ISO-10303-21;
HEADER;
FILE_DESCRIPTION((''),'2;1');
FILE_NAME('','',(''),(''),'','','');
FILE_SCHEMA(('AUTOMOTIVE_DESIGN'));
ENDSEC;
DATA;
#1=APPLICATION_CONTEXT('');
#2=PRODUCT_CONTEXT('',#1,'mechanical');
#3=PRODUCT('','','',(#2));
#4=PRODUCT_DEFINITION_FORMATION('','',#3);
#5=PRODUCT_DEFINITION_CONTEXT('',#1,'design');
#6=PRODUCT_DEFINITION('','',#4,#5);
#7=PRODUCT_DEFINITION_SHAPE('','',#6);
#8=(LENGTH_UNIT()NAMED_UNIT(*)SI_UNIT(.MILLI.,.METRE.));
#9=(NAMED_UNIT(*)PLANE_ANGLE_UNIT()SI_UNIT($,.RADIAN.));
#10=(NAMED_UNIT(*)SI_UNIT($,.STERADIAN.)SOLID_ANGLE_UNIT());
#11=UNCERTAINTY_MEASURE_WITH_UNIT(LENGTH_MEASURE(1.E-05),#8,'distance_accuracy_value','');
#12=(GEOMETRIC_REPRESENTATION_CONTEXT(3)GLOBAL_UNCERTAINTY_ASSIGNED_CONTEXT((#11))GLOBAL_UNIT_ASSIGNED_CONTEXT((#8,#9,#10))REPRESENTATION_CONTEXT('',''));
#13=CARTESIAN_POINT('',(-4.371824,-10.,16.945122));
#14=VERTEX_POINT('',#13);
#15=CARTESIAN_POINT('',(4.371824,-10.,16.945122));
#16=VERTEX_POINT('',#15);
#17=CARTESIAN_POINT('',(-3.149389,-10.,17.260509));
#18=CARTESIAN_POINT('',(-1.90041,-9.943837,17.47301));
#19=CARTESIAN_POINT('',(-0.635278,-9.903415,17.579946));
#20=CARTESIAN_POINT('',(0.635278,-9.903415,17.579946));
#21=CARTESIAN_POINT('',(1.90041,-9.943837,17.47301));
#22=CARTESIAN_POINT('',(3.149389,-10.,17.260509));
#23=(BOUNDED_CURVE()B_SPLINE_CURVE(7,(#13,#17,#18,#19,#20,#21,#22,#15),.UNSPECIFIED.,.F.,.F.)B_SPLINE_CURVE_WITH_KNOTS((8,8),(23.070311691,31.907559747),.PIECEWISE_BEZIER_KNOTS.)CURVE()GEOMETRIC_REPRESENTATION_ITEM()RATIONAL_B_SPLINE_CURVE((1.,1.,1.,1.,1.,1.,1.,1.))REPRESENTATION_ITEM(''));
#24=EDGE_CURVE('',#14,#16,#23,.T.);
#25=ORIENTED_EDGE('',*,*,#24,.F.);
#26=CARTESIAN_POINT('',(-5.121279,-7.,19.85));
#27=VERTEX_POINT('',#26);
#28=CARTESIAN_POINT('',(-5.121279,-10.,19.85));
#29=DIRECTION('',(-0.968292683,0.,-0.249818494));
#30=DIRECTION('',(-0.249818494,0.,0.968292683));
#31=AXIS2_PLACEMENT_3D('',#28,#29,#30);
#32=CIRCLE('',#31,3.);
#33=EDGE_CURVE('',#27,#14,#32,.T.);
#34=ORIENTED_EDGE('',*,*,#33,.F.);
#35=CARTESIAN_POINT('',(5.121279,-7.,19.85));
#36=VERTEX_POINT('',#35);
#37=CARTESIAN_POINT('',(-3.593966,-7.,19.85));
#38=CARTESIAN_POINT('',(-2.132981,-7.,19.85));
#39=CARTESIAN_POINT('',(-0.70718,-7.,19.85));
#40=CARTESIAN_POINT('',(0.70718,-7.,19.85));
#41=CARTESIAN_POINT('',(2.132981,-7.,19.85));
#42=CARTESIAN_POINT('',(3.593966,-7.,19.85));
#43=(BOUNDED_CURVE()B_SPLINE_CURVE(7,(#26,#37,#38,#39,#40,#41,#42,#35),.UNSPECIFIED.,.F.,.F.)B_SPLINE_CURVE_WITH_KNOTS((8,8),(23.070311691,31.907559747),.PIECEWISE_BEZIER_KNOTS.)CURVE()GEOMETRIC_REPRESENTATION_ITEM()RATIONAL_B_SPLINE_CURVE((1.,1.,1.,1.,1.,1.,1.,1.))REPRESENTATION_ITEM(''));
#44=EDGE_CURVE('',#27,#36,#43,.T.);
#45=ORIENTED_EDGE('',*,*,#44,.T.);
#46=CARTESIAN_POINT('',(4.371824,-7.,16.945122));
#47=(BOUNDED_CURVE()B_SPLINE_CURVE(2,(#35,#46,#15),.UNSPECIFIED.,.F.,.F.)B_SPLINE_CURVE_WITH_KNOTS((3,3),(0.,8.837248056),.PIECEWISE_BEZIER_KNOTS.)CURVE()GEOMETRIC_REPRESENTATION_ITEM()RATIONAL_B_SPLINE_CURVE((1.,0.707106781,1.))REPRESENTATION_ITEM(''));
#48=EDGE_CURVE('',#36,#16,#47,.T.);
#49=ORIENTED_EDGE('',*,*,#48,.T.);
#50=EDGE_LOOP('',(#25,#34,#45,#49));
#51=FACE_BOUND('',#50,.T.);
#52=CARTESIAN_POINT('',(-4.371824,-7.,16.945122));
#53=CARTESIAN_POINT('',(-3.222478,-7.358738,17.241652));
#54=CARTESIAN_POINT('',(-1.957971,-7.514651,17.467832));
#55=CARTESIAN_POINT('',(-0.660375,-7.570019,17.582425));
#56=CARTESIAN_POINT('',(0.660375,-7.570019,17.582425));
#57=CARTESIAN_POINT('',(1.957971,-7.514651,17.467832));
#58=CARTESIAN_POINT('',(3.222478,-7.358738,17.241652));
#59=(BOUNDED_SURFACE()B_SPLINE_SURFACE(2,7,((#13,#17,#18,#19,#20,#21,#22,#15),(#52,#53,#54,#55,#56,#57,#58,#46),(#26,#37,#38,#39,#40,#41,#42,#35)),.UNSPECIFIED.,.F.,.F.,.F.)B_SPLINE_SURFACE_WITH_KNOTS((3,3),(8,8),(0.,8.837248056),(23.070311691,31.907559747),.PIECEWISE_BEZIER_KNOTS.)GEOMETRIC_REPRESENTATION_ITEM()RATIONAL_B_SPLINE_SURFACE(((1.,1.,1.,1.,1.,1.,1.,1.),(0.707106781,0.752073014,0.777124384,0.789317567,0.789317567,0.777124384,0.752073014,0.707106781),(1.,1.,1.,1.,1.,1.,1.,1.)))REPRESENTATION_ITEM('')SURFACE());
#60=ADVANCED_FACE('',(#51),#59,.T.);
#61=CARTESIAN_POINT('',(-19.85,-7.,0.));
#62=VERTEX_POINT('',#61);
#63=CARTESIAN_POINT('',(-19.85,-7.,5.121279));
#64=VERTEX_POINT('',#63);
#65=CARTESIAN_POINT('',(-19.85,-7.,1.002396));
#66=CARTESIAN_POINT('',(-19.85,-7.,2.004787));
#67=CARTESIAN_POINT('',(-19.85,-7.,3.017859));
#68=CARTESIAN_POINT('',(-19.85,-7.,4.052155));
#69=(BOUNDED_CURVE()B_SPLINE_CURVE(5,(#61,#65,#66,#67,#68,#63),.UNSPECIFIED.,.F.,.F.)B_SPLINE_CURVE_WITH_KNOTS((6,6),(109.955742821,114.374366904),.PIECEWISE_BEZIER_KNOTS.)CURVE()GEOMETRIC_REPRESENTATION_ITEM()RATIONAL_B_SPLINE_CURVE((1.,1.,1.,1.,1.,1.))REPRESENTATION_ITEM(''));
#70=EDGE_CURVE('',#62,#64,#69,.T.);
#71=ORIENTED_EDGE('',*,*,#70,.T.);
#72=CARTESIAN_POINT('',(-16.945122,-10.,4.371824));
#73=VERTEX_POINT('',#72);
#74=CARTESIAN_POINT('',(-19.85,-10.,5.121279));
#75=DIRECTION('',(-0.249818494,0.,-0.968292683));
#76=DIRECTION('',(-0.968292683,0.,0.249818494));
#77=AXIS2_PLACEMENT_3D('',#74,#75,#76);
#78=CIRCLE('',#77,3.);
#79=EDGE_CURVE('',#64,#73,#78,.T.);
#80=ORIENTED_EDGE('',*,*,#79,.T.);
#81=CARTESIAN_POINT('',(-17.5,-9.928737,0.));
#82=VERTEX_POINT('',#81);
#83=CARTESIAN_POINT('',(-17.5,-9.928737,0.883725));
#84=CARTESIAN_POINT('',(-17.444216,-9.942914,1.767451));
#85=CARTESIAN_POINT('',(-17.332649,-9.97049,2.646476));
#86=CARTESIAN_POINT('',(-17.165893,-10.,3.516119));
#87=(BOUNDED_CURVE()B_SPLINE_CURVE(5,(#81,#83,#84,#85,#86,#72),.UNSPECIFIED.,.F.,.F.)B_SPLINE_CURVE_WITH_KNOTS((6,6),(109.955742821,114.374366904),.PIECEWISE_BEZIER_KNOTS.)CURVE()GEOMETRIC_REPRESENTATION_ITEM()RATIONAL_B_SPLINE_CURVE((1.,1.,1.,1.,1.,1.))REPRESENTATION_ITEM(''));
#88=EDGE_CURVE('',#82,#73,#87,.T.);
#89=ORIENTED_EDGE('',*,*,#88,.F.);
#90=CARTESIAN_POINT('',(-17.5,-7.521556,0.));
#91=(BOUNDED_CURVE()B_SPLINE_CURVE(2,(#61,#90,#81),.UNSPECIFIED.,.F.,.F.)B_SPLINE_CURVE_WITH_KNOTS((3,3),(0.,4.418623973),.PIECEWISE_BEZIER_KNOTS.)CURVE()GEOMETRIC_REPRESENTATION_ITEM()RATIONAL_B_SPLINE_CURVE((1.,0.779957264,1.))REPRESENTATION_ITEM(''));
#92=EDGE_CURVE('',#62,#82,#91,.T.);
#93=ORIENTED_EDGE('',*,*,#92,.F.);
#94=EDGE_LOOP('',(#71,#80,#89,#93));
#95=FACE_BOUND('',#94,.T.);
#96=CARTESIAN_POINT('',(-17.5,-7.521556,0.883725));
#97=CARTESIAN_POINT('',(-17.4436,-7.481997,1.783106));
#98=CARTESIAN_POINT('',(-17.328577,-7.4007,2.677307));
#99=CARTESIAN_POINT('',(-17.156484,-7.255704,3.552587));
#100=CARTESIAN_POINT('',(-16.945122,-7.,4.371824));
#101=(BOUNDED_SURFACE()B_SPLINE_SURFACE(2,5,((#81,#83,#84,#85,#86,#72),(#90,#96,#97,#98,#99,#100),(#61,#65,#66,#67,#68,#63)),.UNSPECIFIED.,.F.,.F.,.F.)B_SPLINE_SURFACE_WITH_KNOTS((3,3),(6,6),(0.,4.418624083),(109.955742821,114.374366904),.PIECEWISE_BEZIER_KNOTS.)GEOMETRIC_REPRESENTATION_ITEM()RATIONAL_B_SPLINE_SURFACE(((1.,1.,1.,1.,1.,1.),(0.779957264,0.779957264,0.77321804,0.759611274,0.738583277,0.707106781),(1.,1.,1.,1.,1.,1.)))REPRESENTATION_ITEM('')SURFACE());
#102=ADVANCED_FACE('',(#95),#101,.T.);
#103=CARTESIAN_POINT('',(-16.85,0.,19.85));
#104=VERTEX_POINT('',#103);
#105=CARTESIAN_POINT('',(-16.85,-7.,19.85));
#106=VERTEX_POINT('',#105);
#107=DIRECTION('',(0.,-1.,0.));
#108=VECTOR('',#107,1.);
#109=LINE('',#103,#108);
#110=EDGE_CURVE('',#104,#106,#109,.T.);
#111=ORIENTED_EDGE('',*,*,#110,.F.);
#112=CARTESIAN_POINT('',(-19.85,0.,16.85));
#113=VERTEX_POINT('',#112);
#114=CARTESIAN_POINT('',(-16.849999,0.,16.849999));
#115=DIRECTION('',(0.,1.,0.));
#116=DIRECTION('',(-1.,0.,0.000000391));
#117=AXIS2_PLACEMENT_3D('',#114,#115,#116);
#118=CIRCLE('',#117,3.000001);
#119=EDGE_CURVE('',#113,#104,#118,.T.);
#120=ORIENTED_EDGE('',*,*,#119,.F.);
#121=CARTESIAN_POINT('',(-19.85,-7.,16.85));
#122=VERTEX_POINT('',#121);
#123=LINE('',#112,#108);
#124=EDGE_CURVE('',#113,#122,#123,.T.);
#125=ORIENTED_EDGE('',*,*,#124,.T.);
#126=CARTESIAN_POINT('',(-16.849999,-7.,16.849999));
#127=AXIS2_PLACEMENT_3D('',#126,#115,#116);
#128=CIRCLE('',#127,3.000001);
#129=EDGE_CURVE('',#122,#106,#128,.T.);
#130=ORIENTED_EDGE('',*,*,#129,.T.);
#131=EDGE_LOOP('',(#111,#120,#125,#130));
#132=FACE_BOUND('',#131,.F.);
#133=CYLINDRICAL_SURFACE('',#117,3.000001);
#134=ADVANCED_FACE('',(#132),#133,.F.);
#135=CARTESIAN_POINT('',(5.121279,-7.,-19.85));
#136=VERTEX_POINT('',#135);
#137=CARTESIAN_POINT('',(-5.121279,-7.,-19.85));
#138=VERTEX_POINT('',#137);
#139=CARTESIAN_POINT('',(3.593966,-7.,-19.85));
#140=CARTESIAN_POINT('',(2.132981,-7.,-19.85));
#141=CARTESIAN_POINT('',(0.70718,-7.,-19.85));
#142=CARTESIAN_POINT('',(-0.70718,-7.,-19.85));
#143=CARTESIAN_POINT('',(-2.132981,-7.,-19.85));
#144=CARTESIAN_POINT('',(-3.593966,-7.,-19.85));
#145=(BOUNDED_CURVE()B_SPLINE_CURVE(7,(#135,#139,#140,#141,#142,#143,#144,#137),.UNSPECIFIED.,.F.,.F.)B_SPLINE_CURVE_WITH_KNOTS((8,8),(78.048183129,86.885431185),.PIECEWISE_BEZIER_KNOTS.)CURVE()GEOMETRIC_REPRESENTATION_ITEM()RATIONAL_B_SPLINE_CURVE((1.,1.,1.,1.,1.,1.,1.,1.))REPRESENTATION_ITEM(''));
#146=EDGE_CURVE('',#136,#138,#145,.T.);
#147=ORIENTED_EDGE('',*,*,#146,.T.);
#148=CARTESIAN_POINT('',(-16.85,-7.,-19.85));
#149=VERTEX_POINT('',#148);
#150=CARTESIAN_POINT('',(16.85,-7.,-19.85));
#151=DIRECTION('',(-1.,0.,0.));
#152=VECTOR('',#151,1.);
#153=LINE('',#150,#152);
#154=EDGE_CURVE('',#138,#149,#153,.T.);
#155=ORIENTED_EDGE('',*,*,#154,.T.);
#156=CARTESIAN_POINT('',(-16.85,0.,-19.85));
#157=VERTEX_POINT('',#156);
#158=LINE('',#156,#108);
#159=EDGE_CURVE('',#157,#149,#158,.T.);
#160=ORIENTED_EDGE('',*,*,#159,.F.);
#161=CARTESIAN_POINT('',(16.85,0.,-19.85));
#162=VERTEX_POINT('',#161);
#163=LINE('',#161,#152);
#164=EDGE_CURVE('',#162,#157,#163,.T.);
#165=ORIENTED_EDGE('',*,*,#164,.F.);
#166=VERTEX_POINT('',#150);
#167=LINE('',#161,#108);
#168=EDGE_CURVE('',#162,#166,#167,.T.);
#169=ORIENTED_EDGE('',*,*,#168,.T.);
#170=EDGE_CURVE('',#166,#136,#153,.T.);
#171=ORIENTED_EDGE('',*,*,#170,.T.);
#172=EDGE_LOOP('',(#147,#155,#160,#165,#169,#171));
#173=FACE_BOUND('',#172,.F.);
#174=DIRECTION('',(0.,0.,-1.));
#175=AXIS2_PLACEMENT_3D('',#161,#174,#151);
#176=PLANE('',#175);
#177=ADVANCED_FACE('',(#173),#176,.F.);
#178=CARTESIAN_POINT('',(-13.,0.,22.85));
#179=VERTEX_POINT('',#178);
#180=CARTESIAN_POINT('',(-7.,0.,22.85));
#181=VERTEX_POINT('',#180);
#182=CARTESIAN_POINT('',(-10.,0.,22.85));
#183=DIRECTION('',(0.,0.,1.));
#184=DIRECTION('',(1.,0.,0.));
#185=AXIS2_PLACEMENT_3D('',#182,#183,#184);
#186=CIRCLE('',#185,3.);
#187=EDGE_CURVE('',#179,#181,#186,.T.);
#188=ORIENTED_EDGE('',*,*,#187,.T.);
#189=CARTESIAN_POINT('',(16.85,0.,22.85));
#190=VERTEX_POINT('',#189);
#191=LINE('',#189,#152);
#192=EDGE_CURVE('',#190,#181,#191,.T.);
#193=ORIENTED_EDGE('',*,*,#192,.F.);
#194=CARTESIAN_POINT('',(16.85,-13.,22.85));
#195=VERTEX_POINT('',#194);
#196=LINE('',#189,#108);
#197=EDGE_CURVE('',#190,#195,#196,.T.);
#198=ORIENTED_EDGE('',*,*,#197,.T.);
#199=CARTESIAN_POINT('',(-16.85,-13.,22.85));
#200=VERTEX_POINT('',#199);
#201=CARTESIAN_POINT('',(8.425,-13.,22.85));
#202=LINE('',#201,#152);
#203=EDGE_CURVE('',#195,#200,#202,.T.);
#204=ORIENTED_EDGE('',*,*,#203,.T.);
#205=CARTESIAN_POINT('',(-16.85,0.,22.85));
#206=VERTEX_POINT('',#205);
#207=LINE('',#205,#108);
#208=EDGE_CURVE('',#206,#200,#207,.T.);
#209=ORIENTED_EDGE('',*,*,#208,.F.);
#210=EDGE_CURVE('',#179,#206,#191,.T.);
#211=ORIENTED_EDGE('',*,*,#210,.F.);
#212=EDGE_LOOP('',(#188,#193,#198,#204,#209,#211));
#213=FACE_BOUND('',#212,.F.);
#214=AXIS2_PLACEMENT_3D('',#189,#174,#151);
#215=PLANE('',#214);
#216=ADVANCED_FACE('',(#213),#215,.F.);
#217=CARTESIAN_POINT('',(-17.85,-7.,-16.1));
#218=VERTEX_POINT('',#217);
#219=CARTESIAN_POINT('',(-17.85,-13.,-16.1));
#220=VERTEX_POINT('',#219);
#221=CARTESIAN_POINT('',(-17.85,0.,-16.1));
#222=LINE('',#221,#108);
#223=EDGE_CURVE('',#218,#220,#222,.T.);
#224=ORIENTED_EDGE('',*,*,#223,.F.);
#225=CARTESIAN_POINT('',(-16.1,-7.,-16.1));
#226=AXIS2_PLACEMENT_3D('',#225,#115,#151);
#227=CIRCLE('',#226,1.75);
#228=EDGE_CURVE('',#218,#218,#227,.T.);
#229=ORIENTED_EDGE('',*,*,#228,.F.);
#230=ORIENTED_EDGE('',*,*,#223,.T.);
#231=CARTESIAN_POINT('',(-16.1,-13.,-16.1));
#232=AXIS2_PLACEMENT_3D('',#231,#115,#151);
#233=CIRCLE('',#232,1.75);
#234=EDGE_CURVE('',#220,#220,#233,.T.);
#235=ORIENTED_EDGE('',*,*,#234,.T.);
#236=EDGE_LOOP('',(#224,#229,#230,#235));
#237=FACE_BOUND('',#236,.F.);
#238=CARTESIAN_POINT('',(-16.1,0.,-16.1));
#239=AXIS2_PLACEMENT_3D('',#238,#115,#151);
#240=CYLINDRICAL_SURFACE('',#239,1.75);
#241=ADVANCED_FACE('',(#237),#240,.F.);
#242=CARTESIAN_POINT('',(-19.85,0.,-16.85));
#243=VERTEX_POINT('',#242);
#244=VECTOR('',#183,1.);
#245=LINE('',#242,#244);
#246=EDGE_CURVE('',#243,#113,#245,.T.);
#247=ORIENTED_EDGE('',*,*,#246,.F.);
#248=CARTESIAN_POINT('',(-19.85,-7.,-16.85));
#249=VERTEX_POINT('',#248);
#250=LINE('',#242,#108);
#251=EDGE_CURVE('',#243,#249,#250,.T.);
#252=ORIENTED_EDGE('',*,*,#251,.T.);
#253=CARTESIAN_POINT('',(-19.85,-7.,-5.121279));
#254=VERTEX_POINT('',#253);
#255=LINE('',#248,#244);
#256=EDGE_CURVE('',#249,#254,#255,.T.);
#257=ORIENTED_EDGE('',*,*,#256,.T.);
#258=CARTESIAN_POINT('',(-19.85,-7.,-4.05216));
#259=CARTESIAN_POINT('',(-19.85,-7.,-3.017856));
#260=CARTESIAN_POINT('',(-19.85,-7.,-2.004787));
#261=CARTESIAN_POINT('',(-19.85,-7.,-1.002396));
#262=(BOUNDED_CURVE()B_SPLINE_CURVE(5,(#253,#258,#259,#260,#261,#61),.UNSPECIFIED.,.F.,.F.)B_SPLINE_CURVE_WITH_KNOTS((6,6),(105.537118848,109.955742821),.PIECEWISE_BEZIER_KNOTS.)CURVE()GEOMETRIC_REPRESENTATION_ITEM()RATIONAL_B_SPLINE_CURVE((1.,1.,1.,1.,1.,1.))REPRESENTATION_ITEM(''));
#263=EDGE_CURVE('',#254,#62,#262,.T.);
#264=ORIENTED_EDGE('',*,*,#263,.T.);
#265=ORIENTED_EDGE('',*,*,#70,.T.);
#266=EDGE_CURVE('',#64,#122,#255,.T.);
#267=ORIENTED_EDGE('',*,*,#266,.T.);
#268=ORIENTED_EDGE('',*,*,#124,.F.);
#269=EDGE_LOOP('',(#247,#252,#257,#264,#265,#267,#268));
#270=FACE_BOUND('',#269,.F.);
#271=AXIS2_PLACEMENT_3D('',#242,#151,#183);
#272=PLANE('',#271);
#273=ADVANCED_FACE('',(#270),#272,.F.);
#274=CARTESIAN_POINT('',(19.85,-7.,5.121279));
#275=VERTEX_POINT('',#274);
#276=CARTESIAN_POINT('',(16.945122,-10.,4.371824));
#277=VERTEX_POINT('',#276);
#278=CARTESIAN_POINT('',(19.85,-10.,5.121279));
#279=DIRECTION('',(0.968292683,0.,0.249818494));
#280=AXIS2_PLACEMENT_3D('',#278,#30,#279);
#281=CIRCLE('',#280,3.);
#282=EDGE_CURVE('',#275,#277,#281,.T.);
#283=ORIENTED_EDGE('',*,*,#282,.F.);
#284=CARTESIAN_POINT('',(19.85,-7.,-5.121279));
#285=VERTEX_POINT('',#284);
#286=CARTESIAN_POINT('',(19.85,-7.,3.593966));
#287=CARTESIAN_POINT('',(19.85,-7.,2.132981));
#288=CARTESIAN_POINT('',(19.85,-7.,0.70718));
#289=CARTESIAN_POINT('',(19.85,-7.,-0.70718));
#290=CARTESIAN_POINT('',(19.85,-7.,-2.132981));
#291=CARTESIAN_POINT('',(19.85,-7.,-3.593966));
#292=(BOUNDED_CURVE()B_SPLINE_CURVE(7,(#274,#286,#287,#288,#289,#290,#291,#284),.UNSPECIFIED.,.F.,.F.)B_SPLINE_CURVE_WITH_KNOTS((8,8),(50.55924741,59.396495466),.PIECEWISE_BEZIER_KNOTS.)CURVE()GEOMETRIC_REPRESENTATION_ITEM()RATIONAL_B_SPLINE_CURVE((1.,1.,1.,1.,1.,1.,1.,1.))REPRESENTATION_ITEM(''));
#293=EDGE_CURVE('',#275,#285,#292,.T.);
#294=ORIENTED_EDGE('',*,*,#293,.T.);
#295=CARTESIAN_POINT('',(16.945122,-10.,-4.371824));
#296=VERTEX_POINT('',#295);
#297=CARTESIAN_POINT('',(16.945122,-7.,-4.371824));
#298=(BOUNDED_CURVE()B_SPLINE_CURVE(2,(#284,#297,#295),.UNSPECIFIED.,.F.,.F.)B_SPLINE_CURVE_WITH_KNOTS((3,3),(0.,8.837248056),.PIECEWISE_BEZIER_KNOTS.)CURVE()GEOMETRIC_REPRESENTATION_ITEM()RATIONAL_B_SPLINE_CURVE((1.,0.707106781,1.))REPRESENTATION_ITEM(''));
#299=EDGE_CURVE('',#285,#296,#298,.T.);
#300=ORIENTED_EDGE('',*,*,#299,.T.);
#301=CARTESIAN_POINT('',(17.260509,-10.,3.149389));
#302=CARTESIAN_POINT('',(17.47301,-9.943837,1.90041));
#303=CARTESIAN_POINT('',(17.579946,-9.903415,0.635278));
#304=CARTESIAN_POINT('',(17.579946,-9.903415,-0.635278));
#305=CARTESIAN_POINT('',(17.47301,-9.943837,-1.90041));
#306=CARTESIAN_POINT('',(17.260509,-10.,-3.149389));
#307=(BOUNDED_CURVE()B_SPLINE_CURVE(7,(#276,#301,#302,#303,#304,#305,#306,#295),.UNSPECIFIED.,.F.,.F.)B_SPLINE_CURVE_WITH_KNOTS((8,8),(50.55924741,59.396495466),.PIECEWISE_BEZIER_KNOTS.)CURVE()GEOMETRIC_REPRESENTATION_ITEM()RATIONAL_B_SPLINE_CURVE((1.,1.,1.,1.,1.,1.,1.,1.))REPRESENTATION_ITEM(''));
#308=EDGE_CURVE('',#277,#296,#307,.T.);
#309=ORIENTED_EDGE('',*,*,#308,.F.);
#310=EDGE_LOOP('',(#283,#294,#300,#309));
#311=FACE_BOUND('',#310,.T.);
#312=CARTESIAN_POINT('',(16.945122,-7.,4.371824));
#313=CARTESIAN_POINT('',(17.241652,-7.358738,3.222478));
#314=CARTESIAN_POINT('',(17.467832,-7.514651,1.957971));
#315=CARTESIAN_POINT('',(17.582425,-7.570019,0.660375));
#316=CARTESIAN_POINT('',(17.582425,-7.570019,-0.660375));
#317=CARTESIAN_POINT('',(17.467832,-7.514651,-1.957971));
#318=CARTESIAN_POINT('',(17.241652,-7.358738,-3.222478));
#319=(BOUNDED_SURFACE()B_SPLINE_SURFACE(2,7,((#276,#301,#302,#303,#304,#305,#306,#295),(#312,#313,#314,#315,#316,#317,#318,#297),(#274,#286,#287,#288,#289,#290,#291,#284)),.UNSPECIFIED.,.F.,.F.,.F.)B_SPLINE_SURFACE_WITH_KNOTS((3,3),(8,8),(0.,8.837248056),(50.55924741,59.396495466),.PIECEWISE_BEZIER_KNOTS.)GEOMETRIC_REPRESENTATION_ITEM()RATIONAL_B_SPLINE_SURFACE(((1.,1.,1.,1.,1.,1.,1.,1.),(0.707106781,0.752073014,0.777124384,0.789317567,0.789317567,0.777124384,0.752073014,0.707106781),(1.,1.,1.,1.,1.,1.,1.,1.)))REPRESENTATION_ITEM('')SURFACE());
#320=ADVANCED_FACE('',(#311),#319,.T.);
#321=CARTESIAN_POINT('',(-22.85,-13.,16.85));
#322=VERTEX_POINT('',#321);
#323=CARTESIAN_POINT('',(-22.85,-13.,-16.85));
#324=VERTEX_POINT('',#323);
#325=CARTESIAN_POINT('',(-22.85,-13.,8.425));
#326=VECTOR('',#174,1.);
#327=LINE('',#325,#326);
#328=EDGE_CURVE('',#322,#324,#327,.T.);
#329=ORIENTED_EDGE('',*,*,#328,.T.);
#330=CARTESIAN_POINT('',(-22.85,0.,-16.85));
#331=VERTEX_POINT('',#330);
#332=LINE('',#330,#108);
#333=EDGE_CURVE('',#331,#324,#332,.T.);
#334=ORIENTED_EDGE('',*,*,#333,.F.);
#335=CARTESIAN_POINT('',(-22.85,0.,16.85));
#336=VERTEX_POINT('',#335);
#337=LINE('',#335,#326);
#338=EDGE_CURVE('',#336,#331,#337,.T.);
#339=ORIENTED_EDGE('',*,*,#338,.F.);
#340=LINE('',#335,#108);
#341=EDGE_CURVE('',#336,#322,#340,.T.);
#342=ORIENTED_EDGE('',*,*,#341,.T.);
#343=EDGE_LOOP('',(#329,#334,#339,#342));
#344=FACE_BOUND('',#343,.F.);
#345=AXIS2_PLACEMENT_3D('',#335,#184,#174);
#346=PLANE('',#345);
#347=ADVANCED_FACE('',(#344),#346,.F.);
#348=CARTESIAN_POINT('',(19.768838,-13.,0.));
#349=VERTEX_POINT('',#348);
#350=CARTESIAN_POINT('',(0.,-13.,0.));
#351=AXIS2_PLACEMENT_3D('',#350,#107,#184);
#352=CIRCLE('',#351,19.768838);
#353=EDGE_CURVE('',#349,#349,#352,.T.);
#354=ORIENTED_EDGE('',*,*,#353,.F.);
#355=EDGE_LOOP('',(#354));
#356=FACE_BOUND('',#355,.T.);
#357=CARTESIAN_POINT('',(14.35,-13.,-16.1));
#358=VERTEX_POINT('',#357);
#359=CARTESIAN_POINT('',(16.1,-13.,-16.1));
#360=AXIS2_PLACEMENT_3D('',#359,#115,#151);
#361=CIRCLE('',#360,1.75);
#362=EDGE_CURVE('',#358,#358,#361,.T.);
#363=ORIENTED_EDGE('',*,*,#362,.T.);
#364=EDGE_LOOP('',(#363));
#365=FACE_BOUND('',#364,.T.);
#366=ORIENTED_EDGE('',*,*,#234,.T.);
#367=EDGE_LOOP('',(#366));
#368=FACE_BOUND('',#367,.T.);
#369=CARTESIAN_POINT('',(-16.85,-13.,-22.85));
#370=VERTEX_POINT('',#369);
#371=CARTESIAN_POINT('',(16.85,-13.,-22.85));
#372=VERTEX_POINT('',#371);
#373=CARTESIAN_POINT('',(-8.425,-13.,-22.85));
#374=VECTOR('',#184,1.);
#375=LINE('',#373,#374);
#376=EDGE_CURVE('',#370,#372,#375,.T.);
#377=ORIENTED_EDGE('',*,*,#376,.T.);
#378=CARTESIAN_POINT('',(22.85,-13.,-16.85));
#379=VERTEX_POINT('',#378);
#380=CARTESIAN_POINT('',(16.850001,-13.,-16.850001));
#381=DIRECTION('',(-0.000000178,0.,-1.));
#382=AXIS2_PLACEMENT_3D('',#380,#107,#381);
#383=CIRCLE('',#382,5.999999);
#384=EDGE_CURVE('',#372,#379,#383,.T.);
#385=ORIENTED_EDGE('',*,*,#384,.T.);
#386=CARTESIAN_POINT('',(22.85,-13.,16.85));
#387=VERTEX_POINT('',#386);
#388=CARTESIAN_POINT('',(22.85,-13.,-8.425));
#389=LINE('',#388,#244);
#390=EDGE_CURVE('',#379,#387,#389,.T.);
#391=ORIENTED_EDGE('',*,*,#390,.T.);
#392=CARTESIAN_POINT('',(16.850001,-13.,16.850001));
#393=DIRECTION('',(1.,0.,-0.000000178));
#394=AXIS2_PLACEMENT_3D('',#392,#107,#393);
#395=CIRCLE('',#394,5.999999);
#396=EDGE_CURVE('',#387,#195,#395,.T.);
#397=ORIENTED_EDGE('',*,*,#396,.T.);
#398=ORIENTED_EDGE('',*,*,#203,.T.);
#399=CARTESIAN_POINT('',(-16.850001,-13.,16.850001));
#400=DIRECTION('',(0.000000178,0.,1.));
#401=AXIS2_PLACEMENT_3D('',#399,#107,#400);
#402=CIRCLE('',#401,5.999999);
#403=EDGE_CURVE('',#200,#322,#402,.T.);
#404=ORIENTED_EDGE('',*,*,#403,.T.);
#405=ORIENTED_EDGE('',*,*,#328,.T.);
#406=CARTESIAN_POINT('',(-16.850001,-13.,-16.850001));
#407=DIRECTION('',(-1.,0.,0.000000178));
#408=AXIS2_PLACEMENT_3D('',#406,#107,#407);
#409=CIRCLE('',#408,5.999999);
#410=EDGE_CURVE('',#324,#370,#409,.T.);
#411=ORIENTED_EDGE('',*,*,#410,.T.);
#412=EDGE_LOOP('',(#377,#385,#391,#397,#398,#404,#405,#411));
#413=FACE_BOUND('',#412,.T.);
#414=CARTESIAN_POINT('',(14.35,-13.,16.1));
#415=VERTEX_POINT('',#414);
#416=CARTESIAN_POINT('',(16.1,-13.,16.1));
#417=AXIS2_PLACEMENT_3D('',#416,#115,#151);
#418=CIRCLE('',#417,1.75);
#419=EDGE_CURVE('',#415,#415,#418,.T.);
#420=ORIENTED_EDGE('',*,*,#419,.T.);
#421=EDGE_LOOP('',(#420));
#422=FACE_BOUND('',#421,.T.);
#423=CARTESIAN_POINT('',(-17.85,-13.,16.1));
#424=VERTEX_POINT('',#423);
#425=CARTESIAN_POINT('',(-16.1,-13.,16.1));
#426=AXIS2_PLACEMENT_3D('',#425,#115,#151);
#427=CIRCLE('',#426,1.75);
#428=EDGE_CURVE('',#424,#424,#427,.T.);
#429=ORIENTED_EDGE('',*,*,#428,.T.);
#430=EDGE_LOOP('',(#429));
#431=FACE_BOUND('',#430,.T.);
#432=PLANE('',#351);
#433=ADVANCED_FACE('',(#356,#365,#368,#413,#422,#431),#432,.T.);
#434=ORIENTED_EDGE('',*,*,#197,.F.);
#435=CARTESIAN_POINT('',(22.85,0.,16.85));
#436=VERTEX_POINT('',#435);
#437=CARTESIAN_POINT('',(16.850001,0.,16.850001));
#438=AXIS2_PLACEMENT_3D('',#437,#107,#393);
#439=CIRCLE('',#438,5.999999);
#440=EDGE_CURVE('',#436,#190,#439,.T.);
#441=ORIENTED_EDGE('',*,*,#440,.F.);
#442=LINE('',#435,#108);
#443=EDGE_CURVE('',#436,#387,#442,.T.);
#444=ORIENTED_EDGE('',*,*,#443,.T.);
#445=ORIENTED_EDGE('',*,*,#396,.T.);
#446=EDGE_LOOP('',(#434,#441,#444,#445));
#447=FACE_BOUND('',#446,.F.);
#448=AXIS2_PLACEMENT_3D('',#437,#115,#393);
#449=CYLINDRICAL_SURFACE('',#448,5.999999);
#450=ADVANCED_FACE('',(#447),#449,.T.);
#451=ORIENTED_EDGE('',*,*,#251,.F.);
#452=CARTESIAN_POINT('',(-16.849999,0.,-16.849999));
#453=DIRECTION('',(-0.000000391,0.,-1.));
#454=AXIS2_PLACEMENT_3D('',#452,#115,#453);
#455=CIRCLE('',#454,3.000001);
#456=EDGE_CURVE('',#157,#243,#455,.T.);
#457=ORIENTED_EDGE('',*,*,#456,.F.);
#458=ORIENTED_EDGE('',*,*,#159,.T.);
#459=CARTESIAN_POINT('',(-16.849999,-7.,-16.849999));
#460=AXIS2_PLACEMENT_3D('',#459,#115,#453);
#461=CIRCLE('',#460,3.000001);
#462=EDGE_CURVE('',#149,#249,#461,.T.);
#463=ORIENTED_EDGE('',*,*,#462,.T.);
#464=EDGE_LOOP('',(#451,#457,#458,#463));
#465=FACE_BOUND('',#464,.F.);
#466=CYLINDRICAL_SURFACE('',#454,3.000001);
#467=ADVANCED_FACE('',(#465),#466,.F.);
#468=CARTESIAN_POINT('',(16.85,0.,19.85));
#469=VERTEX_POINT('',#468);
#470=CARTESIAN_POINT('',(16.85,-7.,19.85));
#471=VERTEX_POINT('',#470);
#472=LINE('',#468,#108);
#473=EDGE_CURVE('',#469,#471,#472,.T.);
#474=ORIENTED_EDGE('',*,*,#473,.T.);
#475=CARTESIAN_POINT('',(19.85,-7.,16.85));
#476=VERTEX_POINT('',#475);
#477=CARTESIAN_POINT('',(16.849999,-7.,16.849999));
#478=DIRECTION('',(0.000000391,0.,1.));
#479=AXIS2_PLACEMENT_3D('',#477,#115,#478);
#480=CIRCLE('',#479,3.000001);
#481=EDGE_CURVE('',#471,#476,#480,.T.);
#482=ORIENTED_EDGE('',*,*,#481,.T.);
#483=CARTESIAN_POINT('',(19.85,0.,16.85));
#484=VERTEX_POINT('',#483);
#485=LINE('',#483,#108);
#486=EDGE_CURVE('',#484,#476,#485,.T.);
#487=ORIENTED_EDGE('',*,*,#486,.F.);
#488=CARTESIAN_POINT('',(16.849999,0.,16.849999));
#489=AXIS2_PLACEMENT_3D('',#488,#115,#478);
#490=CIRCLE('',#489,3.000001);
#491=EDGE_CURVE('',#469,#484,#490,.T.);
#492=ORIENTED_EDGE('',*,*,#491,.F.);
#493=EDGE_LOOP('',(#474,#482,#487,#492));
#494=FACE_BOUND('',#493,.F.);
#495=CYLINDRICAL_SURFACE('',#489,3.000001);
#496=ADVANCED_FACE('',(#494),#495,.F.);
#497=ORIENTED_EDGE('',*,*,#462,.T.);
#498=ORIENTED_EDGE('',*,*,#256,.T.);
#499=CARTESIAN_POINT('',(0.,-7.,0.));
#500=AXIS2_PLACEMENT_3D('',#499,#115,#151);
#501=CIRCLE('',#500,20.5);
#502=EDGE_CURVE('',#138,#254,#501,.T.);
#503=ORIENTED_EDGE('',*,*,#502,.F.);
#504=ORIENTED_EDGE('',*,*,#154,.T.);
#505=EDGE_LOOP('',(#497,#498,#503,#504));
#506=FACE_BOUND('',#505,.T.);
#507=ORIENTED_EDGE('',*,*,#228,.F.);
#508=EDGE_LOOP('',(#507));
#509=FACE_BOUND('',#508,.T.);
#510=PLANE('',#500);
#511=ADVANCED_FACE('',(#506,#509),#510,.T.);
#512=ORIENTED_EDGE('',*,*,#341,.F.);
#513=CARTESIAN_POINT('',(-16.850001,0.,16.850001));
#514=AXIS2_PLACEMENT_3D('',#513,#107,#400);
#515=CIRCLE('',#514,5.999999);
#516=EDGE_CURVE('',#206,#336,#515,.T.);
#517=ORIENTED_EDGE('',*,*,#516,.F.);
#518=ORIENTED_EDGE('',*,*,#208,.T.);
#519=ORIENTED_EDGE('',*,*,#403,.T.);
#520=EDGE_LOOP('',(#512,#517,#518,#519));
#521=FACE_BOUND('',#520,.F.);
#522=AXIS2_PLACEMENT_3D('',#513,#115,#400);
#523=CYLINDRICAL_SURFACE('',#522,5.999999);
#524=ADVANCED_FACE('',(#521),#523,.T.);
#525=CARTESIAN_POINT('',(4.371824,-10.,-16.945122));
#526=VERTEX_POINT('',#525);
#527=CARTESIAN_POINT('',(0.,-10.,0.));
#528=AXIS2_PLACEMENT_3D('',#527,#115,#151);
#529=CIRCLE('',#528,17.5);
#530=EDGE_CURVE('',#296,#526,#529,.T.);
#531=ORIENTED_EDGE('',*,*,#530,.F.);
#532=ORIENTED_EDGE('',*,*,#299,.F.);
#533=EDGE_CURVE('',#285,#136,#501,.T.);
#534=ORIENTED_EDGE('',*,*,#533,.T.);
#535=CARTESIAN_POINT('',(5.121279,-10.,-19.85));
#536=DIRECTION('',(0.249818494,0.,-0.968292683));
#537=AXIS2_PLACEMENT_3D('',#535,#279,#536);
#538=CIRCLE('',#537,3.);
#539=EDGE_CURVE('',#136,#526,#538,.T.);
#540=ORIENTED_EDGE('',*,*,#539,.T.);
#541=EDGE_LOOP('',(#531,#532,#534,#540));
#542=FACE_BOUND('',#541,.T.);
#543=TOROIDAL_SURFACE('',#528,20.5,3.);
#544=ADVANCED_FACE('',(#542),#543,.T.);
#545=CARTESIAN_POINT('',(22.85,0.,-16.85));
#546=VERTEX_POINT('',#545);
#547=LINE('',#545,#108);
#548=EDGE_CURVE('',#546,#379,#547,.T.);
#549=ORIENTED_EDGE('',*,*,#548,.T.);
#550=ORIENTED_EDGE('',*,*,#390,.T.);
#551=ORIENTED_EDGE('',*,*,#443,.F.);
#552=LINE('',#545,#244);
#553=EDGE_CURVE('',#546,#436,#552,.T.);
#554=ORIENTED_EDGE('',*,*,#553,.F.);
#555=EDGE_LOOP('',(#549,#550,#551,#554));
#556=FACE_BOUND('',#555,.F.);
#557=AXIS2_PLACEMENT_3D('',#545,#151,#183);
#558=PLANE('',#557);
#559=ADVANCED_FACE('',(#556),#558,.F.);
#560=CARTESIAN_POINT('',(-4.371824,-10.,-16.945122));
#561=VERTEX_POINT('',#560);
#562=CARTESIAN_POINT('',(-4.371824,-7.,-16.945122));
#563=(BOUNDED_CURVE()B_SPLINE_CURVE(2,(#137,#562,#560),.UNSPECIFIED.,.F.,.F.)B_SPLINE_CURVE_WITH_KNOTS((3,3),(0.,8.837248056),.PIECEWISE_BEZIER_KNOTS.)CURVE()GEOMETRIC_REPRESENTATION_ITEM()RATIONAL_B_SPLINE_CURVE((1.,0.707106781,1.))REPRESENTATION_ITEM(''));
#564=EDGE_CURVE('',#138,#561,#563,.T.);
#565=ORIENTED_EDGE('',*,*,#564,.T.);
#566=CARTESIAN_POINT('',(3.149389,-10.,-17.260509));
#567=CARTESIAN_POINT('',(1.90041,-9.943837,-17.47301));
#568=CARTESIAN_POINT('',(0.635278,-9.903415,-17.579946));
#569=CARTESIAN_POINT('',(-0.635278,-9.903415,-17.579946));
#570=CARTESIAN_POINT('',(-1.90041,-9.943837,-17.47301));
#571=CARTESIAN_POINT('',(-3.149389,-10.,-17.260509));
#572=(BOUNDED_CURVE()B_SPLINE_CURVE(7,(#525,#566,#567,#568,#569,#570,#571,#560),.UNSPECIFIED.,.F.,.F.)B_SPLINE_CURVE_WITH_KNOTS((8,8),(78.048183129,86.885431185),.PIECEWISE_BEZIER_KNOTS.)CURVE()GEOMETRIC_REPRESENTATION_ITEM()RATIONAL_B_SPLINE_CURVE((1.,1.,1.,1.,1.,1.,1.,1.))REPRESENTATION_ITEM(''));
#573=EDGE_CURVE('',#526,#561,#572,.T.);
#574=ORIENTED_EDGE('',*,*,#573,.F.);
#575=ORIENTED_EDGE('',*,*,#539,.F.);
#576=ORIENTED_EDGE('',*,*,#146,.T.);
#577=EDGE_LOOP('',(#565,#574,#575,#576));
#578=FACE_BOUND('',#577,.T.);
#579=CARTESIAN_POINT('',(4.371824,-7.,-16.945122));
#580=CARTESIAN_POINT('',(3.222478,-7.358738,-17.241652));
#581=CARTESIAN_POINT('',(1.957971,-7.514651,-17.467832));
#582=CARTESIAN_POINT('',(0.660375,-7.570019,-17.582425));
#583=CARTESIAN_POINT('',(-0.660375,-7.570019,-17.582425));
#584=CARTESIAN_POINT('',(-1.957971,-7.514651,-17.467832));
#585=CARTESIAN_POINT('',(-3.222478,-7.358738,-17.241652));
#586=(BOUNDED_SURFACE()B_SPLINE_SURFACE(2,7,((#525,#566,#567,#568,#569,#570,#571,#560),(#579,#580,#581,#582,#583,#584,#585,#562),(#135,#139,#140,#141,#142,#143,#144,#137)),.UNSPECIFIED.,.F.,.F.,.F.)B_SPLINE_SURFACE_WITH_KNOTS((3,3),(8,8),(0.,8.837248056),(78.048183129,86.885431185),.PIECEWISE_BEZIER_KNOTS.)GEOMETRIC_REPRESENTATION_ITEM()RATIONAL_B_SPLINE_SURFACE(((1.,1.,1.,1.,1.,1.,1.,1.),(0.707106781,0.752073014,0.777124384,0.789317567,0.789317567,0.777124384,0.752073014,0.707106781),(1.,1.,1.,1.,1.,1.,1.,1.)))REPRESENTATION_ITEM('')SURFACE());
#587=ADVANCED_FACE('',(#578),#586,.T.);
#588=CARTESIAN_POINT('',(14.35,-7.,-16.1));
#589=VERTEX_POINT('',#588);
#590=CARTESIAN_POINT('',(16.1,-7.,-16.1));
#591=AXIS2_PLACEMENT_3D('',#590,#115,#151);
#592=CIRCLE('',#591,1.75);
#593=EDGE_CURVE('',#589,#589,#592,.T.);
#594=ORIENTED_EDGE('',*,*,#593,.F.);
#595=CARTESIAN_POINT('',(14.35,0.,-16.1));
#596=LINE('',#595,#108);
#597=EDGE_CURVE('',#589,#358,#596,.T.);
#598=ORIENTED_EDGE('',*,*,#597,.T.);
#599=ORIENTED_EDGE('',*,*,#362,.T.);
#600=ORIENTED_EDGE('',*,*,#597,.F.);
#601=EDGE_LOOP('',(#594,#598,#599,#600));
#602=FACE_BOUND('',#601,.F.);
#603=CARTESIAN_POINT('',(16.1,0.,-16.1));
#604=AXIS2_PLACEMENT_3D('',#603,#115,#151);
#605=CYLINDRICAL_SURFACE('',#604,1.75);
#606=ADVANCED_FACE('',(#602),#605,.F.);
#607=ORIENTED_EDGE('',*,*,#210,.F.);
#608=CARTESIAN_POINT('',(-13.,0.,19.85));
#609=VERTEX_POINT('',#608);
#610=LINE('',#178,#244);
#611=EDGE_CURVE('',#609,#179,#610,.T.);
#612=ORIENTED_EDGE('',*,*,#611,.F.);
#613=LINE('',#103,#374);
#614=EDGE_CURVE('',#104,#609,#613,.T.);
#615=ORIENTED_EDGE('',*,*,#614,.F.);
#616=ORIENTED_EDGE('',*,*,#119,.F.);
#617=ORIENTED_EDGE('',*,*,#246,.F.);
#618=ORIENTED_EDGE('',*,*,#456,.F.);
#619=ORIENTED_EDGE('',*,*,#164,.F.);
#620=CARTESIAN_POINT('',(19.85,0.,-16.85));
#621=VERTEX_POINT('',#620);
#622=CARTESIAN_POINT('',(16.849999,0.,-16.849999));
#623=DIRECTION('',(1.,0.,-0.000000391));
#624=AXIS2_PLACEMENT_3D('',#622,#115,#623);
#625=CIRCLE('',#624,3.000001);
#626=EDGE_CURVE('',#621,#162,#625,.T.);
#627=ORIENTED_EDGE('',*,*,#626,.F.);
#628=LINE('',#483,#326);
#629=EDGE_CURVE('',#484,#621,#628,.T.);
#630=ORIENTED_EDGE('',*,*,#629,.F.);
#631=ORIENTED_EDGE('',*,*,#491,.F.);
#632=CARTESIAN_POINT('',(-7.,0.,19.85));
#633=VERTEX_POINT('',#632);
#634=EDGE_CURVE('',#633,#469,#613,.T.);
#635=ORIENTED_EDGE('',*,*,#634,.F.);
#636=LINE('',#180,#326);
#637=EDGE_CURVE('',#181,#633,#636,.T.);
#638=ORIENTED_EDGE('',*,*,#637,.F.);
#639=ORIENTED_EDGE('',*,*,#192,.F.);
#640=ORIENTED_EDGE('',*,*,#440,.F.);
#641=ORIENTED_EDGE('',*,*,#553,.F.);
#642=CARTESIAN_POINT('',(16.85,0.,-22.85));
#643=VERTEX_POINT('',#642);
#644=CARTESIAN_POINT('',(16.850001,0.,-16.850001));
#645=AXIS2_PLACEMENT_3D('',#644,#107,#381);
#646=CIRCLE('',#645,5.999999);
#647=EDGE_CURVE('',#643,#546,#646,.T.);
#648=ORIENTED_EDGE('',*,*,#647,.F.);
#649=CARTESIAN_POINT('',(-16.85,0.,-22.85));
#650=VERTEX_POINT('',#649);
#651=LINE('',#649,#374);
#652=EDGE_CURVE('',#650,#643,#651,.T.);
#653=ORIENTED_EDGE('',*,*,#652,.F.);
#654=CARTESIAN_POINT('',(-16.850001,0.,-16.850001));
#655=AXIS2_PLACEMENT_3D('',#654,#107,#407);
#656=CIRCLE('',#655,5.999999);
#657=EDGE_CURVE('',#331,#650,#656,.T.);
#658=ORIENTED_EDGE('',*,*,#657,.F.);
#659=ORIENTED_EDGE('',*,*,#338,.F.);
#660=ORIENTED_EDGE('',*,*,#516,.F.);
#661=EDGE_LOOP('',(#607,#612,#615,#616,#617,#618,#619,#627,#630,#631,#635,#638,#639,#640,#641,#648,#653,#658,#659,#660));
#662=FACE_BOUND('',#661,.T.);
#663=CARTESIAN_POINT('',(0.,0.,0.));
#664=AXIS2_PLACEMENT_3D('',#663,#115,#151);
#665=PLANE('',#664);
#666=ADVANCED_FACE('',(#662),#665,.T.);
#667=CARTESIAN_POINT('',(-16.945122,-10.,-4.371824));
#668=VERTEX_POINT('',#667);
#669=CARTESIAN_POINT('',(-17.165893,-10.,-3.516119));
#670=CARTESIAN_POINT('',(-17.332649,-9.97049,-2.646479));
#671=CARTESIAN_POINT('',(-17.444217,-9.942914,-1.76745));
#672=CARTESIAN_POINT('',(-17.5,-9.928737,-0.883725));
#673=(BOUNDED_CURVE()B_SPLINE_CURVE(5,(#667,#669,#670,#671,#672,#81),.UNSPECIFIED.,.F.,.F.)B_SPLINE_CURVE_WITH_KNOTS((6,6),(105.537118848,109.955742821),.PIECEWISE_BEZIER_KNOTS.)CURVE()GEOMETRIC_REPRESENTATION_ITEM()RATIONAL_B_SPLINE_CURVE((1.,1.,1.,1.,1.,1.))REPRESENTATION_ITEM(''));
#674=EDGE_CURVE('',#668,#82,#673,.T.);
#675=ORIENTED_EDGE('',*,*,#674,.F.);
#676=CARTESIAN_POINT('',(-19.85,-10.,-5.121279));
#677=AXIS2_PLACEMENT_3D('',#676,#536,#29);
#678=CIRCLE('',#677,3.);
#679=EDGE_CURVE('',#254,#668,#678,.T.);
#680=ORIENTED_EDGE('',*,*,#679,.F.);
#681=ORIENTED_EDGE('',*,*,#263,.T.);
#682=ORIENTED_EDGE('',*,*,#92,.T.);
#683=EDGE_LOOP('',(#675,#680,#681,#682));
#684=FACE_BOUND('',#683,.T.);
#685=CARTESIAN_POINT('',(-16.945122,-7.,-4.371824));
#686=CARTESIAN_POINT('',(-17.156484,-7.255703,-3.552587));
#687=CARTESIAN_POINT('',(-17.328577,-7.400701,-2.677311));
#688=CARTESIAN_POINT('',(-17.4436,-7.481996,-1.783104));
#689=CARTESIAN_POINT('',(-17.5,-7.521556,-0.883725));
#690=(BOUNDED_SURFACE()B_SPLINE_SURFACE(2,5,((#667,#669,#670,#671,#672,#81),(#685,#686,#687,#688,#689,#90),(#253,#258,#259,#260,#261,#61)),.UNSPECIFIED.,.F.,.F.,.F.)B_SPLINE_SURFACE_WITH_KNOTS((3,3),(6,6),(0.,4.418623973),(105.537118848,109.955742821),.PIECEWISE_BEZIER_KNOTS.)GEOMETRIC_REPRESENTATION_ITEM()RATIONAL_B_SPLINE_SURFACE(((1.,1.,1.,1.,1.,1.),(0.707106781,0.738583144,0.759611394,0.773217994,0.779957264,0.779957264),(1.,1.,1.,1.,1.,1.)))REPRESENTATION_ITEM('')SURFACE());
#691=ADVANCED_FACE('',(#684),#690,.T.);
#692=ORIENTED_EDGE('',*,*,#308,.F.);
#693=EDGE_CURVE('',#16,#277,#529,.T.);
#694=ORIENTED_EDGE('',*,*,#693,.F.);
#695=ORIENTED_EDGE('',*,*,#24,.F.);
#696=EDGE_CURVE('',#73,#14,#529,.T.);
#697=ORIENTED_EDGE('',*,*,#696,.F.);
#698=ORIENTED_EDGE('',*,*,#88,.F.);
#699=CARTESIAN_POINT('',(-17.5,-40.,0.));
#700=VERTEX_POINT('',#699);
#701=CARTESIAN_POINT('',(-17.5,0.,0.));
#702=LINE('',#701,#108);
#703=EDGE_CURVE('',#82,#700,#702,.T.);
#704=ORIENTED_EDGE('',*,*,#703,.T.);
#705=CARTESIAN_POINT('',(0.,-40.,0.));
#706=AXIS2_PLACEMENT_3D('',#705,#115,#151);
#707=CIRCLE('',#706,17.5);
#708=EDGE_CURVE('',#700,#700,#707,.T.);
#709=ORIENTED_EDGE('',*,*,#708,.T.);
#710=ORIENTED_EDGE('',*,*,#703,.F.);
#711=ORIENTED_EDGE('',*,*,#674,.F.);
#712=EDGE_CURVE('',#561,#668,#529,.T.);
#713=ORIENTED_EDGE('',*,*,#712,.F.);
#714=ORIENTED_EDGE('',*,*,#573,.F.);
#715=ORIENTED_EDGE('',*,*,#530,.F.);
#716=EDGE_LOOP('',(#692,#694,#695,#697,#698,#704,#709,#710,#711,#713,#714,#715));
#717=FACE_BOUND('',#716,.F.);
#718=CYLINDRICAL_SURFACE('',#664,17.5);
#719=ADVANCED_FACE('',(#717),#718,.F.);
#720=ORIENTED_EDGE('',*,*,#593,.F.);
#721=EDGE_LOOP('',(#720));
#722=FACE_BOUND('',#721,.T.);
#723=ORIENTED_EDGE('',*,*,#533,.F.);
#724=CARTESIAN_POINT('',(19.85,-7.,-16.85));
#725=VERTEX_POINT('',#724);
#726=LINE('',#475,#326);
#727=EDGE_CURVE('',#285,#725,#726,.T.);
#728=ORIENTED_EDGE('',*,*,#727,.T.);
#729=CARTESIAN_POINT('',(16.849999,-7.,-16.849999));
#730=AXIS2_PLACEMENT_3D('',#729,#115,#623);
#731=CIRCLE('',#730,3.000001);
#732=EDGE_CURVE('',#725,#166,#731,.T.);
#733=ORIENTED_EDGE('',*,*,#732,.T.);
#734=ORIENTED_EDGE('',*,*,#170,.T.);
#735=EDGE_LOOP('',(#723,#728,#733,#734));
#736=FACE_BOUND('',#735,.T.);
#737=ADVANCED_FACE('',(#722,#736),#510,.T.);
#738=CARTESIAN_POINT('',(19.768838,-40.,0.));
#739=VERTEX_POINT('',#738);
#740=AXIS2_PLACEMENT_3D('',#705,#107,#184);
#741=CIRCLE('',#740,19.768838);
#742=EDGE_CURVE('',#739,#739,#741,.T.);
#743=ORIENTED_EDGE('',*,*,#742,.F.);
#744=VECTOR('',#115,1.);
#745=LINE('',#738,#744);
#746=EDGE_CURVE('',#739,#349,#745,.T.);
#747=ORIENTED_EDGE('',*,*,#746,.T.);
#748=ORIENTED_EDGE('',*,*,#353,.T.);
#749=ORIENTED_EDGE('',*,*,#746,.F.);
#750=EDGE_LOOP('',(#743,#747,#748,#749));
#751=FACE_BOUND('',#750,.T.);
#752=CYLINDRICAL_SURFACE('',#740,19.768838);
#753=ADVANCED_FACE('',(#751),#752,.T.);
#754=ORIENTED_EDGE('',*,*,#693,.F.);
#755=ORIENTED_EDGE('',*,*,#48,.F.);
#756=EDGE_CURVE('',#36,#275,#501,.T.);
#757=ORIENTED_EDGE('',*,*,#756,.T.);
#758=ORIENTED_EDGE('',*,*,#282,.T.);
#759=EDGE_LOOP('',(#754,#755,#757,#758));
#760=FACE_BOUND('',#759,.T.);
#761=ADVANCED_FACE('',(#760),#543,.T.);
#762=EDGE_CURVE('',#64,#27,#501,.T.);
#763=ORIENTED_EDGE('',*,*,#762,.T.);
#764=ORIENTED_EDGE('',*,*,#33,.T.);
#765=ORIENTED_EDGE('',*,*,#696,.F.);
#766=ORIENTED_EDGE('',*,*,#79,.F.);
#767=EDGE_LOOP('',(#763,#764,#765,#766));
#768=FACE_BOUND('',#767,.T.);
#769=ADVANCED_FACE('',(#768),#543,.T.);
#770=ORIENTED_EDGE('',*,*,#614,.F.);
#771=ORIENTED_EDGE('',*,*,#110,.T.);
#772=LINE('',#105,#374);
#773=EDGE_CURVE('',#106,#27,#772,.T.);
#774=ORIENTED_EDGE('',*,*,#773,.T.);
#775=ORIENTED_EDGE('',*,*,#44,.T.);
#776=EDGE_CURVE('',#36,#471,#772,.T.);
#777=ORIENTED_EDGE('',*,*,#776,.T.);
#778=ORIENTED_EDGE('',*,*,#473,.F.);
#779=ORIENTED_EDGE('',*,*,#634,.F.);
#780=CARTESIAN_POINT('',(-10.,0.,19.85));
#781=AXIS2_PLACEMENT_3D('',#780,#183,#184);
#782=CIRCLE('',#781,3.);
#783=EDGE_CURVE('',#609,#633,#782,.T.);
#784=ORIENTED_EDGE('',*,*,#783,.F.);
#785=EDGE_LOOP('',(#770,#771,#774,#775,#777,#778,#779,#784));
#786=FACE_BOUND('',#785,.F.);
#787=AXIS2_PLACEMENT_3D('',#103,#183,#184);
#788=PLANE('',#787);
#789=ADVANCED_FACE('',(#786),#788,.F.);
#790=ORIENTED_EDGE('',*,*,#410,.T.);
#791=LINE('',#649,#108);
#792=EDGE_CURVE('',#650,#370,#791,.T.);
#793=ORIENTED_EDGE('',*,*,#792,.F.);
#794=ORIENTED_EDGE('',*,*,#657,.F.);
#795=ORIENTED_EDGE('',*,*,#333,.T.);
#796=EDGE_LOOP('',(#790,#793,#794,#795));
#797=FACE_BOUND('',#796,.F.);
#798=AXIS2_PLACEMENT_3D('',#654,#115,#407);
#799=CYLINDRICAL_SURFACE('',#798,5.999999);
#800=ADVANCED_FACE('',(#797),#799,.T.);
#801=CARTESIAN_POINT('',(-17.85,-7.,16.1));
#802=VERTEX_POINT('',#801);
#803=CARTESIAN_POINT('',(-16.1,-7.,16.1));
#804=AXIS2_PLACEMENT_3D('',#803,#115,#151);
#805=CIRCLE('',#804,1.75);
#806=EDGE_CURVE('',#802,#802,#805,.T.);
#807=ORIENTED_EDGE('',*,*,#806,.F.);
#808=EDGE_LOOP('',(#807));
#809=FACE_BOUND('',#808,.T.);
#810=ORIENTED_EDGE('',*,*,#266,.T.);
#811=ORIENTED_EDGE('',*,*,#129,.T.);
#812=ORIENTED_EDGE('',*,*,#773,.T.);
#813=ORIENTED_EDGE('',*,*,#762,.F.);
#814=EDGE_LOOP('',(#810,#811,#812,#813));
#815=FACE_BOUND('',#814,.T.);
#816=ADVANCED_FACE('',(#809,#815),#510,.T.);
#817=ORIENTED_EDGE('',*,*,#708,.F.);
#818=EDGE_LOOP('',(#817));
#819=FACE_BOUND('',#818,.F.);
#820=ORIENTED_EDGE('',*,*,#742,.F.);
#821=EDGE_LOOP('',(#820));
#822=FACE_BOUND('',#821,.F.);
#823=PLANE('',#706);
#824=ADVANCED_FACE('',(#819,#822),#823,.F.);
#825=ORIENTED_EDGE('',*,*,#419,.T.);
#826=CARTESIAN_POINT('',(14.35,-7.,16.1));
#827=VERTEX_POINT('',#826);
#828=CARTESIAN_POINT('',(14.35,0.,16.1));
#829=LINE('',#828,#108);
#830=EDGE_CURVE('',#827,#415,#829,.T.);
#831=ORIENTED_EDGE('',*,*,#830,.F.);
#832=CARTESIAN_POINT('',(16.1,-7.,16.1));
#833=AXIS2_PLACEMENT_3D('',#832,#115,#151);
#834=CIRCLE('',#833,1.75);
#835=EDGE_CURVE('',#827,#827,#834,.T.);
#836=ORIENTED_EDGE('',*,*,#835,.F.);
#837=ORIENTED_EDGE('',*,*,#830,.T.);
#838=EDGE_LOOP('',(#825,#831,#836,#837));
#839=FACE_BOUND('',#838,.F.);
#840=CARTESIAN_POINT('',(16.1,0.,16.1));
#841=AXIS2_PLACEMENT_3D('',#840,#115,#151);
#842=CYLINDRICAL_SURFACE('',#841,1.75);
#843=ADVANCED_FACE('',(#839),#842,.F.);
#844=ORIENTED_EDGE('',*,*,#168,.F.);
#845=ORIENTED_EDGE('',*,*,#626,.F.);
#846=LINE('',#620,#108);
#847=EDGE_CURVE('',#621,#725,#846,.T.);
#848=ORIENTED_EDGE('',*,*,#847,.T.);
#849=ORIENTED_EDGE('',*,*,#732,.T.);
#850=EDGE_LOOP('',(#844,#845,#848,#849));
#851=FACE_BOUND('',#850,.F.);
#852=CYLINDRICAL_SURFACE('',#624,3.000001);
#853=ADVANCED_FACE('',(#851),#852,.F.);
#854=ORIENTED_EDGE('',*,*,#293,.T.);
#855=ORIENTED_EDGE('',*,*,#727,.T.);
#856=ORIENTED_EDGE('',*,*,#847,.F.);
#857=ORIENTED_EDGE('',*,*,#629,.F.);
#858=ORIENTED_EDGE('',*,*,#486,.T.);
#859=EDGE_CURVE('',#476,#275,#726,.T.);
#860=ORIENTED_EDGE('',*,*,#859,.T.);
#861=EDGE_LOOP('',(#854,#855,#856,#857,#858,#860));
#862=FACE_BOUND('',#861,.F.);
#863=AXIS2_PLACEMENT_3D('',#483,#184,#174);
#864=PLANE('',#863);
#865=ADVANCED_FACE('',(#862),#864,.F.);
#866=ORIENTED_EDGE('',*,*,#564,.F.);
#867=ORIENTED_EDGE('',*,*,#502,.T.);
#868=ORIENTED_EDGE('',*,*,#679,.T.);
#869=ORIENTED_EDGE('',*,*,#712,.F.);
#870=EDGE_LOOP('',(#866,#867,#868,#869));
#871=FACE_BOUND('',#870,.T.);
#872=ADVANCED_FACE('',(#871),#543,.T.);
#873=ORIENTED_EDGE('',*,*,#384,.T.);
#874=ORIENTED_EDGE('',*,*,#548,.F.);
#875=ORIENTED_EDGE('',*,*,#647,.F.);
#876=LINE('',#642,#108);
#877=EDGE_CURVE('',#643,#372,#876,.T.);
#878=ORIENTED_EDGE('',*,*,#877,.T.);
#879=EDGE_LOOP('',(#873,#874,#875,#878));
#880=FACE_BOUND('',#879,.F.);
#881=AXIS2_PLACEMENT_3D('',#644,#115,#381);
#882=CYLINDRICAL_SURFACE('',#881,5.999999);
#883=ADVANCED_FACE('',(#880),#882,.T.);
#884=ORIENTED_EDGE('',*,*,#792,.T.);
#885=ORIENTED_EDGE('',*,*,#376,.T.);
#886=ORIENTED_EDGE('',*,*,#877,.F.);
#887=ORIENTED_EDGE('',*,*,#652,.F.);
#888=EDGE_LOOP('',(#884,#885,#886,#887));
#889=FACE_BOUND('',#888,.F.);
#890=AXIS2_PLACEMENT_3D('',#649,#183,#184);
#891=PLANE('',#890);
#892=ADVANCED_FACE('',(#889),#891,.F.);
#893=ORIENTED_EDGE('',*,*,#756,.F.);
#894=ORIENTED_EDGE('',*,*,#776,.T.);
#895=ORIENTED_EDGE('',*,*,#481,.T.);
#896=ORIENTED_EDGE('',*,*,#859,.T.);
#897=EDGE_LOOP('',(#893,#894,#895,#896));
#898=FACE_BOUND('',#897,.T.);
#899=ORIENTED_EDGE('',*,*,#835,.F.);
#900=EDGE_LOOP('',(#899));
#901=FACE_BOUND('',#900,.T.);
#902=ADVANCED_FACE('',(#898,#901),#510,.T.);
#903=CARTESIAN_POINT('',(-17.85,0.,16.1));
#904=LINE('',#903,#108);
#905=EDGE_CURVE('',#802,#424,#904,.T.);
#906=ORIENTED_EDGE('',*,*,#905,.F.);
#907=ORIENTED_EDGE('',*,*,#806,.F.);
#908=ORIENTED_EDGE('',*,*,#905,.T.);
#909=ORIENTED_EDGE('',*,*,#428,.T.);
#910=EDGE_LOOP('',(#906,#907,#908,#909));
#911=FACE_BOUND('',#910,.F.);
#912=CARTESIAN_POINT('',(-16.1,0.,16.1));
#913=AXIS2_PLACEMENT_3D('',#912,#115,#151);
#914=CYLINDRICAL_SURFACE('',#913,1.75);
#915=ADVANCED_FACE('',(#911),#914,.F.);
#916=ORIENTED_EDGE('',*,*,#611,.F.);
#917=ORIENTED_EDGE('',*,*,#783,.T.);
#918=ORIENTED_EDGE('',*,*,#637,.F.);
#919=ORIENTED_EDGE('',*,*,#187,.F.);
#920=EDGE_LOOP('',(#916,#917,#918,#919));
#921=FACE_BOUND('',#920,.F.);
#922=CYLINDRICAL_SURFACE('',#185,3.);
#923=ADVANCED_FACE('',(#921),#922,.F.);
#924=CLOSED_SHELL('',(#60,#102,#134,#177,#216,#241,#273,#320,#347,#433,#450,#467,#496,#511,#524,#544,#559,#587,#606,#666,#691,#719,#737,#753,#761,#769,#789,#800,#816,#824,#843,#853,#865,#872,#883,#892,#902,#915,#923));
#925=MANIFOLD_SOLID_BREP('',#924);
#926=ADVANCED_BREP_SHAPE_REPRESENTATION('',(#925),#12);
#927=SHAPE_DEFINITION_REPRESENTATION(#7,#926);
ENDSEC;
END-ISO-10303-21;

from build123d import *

# Parameters (mm, degrees)
F1_DEPTH  = 40
F2_R      = 1.75
F2_R_2    = 17.5
F3_DEPTH  = 40
F5_DEPTH  = 7
F6_R      = 29.829499
F6_R_2    = 19.768838
F7_DEPTH  = 27
F8_R      = 3
F9_R      = 3
F10_DEPTH = 3


with BuildPart() as f1:
    # F0 (on Front) → F1 (new body)
    with BuildSketch(Plane.XZ):
        with BuildLine():
            Line((16.85, 22.85), (-16.85, 22.85))
            ThreePointArc((-16.85, 22.85), (-21.092641, 21.092641), (-22.85, 16.85))
            Line((-22.85, 16.85), (-22.85, -16.85))
            ThreePointArc((-22.85, -16.85), (-21.092641, -21.092641), (-16.85, -22.85))
            Line((-16.85, -22.85), (16.85, -22.85))
            ThreePointArc((16.85, -22.85), (21.092641, -21.092641), (22.85, -16.85))
            Line((22.85, -16.85), (22.85, 16.85))
            ThreePointArc((22.85, 16.85), (21.092641, 21.092641), (16.85, 22.85))
        make_face()
        with BuildLine():
            ThreePointArc((-19.85, 16.85), (-18.97132, 18.97132), (-16.85, 19.85))
            Line((-16.85, 19.85), (16.85, 19.85))
            ThreePointArc((16.85, 19.85), (18.97132, 18.97132), (19.85, 16.85))
            Line((19.85, 16.85), (19.85, -16.85))
            ThreePointArc((19.85, -16.85), (18.97132, -18.97132), (16.85, -19.85))
            Line((16.85, -19.85), (-16.85, -19.85))
            ThreePointArc((-16.85, -19.85), (-18.97132, -18.97132), (-19.85, -16.85))
            Line((-19.85, -16.85), (-19.85, 16.85))
        make_face(mode=Mode.SUBTRACT)
    extrude(amount=F1_DEPTH)

    # F2 (on face) → F3 (join, through all)
    with BuildSketch(Plane(origin=(0, 0, 0), x_dir=(-1, 0, 0), z_dir=(0, 1, 0))):
        with BuildLine():
            ThreePointArc((-16.85, 19.85), (-18.97132, 18.97132), (-19.85, 16.85))
            Line((-19.85, 16.85), (-19.85, -16.85))
            ThreePointArc((-19.85, -16.85), (-18.97132, -18.97132), (-16.85, -19.85))
            Line((-16.85, -19.85), (16.85, -19.85))
            ThreePointArc((16.85, -19.85), (18.97132, -18.97132), (19.85, -16.85))
            Line((19.85, -16.85), (19.85, 16.85))
            ThreePointArc((19.85, 16.85), (18.97132, 18.97132), (16.85, 19.85))
            Line((16.85, 19.85), (-16.85, 19.85))
        make_face()
        with Locations((-16.1, -16.1)):
            Circle(F2_R, mode=Mode.SUBTRACT)
        with Locations((16.1, -16.1)):
            Circle(F2_R, mode=Mode.SUBTRACT)
        with Locations((-16.1, 16.1)):
            Circle(F2_R, mode=Mode.SUBTRACT)
        Circle(F2_R_2, mode=Mode.SUBTRACT)
        with Locations((16.1, 16.1)):
            Circle(F2_R, mode=Mode.SUBTRACT)
    extrude(amount=-F3_DEPTH)

    # F4 (on face) → F5 (cut)
    with BuildSketch(Plane(origin=(0, 0, 0), x_dir=(-1, 0, 0), z_dir=(0, 1, 0))):
        with BuildLine():
            Line((19.85, -16.85), (19.85, 16.85))
            ThreePointArc((19.85, 16.85), (18.97132, 18.97132), (16.85, 19.85))
            Line((16.85, 19.85), (-16.85, 19.85))
            ThreePointArc((-16.85, 19.85), (-18.97132, 18.97132), (-19.85, 16.85))
            Line((-19.85, 16.85), (-19.85, -16.85))
            ThreePointArc((-19.85, -16.85), (-18.97132, -18.97132), (-16.85, -19.85))
            Line((-16.85, -19.85), (16.85, -19.85))
            ThreePointArc((16.85, -19.85), (18.97132, -18.97132), (19.85, -16.85))
        make_face()
    extrude(amount=-F5_DEPTH, mode=Mode.SUBTRACT)

    # F6 (on face) → F7 (cut)
    with BuildSketch(Plane.XZ.offset(40)):
        Circle(F6_R)
        Circle(F6_R_2, mode=Mode.SUBTRACT)
    extrude(amount=-F7_DEPTH, mode=Mode.SUBTRACT)

    # F8
    f8_edges = [f1.edges().sort_by_distance(p)[0] for p in [
        (17.5, -7, 0),
    ]]
    fillet(f8_edges, radius=F8_R)

    # F9 (on face) → F10 (cut, through all)
    with BuildSketch(Plane.XY.offset(22.85)):
        with Locations((-10, 0)):
            Circle(F9_R)
    extrude(amount=-F10_DEPTH, mode=Mode.SUBTRACT)


solid = f1.part
